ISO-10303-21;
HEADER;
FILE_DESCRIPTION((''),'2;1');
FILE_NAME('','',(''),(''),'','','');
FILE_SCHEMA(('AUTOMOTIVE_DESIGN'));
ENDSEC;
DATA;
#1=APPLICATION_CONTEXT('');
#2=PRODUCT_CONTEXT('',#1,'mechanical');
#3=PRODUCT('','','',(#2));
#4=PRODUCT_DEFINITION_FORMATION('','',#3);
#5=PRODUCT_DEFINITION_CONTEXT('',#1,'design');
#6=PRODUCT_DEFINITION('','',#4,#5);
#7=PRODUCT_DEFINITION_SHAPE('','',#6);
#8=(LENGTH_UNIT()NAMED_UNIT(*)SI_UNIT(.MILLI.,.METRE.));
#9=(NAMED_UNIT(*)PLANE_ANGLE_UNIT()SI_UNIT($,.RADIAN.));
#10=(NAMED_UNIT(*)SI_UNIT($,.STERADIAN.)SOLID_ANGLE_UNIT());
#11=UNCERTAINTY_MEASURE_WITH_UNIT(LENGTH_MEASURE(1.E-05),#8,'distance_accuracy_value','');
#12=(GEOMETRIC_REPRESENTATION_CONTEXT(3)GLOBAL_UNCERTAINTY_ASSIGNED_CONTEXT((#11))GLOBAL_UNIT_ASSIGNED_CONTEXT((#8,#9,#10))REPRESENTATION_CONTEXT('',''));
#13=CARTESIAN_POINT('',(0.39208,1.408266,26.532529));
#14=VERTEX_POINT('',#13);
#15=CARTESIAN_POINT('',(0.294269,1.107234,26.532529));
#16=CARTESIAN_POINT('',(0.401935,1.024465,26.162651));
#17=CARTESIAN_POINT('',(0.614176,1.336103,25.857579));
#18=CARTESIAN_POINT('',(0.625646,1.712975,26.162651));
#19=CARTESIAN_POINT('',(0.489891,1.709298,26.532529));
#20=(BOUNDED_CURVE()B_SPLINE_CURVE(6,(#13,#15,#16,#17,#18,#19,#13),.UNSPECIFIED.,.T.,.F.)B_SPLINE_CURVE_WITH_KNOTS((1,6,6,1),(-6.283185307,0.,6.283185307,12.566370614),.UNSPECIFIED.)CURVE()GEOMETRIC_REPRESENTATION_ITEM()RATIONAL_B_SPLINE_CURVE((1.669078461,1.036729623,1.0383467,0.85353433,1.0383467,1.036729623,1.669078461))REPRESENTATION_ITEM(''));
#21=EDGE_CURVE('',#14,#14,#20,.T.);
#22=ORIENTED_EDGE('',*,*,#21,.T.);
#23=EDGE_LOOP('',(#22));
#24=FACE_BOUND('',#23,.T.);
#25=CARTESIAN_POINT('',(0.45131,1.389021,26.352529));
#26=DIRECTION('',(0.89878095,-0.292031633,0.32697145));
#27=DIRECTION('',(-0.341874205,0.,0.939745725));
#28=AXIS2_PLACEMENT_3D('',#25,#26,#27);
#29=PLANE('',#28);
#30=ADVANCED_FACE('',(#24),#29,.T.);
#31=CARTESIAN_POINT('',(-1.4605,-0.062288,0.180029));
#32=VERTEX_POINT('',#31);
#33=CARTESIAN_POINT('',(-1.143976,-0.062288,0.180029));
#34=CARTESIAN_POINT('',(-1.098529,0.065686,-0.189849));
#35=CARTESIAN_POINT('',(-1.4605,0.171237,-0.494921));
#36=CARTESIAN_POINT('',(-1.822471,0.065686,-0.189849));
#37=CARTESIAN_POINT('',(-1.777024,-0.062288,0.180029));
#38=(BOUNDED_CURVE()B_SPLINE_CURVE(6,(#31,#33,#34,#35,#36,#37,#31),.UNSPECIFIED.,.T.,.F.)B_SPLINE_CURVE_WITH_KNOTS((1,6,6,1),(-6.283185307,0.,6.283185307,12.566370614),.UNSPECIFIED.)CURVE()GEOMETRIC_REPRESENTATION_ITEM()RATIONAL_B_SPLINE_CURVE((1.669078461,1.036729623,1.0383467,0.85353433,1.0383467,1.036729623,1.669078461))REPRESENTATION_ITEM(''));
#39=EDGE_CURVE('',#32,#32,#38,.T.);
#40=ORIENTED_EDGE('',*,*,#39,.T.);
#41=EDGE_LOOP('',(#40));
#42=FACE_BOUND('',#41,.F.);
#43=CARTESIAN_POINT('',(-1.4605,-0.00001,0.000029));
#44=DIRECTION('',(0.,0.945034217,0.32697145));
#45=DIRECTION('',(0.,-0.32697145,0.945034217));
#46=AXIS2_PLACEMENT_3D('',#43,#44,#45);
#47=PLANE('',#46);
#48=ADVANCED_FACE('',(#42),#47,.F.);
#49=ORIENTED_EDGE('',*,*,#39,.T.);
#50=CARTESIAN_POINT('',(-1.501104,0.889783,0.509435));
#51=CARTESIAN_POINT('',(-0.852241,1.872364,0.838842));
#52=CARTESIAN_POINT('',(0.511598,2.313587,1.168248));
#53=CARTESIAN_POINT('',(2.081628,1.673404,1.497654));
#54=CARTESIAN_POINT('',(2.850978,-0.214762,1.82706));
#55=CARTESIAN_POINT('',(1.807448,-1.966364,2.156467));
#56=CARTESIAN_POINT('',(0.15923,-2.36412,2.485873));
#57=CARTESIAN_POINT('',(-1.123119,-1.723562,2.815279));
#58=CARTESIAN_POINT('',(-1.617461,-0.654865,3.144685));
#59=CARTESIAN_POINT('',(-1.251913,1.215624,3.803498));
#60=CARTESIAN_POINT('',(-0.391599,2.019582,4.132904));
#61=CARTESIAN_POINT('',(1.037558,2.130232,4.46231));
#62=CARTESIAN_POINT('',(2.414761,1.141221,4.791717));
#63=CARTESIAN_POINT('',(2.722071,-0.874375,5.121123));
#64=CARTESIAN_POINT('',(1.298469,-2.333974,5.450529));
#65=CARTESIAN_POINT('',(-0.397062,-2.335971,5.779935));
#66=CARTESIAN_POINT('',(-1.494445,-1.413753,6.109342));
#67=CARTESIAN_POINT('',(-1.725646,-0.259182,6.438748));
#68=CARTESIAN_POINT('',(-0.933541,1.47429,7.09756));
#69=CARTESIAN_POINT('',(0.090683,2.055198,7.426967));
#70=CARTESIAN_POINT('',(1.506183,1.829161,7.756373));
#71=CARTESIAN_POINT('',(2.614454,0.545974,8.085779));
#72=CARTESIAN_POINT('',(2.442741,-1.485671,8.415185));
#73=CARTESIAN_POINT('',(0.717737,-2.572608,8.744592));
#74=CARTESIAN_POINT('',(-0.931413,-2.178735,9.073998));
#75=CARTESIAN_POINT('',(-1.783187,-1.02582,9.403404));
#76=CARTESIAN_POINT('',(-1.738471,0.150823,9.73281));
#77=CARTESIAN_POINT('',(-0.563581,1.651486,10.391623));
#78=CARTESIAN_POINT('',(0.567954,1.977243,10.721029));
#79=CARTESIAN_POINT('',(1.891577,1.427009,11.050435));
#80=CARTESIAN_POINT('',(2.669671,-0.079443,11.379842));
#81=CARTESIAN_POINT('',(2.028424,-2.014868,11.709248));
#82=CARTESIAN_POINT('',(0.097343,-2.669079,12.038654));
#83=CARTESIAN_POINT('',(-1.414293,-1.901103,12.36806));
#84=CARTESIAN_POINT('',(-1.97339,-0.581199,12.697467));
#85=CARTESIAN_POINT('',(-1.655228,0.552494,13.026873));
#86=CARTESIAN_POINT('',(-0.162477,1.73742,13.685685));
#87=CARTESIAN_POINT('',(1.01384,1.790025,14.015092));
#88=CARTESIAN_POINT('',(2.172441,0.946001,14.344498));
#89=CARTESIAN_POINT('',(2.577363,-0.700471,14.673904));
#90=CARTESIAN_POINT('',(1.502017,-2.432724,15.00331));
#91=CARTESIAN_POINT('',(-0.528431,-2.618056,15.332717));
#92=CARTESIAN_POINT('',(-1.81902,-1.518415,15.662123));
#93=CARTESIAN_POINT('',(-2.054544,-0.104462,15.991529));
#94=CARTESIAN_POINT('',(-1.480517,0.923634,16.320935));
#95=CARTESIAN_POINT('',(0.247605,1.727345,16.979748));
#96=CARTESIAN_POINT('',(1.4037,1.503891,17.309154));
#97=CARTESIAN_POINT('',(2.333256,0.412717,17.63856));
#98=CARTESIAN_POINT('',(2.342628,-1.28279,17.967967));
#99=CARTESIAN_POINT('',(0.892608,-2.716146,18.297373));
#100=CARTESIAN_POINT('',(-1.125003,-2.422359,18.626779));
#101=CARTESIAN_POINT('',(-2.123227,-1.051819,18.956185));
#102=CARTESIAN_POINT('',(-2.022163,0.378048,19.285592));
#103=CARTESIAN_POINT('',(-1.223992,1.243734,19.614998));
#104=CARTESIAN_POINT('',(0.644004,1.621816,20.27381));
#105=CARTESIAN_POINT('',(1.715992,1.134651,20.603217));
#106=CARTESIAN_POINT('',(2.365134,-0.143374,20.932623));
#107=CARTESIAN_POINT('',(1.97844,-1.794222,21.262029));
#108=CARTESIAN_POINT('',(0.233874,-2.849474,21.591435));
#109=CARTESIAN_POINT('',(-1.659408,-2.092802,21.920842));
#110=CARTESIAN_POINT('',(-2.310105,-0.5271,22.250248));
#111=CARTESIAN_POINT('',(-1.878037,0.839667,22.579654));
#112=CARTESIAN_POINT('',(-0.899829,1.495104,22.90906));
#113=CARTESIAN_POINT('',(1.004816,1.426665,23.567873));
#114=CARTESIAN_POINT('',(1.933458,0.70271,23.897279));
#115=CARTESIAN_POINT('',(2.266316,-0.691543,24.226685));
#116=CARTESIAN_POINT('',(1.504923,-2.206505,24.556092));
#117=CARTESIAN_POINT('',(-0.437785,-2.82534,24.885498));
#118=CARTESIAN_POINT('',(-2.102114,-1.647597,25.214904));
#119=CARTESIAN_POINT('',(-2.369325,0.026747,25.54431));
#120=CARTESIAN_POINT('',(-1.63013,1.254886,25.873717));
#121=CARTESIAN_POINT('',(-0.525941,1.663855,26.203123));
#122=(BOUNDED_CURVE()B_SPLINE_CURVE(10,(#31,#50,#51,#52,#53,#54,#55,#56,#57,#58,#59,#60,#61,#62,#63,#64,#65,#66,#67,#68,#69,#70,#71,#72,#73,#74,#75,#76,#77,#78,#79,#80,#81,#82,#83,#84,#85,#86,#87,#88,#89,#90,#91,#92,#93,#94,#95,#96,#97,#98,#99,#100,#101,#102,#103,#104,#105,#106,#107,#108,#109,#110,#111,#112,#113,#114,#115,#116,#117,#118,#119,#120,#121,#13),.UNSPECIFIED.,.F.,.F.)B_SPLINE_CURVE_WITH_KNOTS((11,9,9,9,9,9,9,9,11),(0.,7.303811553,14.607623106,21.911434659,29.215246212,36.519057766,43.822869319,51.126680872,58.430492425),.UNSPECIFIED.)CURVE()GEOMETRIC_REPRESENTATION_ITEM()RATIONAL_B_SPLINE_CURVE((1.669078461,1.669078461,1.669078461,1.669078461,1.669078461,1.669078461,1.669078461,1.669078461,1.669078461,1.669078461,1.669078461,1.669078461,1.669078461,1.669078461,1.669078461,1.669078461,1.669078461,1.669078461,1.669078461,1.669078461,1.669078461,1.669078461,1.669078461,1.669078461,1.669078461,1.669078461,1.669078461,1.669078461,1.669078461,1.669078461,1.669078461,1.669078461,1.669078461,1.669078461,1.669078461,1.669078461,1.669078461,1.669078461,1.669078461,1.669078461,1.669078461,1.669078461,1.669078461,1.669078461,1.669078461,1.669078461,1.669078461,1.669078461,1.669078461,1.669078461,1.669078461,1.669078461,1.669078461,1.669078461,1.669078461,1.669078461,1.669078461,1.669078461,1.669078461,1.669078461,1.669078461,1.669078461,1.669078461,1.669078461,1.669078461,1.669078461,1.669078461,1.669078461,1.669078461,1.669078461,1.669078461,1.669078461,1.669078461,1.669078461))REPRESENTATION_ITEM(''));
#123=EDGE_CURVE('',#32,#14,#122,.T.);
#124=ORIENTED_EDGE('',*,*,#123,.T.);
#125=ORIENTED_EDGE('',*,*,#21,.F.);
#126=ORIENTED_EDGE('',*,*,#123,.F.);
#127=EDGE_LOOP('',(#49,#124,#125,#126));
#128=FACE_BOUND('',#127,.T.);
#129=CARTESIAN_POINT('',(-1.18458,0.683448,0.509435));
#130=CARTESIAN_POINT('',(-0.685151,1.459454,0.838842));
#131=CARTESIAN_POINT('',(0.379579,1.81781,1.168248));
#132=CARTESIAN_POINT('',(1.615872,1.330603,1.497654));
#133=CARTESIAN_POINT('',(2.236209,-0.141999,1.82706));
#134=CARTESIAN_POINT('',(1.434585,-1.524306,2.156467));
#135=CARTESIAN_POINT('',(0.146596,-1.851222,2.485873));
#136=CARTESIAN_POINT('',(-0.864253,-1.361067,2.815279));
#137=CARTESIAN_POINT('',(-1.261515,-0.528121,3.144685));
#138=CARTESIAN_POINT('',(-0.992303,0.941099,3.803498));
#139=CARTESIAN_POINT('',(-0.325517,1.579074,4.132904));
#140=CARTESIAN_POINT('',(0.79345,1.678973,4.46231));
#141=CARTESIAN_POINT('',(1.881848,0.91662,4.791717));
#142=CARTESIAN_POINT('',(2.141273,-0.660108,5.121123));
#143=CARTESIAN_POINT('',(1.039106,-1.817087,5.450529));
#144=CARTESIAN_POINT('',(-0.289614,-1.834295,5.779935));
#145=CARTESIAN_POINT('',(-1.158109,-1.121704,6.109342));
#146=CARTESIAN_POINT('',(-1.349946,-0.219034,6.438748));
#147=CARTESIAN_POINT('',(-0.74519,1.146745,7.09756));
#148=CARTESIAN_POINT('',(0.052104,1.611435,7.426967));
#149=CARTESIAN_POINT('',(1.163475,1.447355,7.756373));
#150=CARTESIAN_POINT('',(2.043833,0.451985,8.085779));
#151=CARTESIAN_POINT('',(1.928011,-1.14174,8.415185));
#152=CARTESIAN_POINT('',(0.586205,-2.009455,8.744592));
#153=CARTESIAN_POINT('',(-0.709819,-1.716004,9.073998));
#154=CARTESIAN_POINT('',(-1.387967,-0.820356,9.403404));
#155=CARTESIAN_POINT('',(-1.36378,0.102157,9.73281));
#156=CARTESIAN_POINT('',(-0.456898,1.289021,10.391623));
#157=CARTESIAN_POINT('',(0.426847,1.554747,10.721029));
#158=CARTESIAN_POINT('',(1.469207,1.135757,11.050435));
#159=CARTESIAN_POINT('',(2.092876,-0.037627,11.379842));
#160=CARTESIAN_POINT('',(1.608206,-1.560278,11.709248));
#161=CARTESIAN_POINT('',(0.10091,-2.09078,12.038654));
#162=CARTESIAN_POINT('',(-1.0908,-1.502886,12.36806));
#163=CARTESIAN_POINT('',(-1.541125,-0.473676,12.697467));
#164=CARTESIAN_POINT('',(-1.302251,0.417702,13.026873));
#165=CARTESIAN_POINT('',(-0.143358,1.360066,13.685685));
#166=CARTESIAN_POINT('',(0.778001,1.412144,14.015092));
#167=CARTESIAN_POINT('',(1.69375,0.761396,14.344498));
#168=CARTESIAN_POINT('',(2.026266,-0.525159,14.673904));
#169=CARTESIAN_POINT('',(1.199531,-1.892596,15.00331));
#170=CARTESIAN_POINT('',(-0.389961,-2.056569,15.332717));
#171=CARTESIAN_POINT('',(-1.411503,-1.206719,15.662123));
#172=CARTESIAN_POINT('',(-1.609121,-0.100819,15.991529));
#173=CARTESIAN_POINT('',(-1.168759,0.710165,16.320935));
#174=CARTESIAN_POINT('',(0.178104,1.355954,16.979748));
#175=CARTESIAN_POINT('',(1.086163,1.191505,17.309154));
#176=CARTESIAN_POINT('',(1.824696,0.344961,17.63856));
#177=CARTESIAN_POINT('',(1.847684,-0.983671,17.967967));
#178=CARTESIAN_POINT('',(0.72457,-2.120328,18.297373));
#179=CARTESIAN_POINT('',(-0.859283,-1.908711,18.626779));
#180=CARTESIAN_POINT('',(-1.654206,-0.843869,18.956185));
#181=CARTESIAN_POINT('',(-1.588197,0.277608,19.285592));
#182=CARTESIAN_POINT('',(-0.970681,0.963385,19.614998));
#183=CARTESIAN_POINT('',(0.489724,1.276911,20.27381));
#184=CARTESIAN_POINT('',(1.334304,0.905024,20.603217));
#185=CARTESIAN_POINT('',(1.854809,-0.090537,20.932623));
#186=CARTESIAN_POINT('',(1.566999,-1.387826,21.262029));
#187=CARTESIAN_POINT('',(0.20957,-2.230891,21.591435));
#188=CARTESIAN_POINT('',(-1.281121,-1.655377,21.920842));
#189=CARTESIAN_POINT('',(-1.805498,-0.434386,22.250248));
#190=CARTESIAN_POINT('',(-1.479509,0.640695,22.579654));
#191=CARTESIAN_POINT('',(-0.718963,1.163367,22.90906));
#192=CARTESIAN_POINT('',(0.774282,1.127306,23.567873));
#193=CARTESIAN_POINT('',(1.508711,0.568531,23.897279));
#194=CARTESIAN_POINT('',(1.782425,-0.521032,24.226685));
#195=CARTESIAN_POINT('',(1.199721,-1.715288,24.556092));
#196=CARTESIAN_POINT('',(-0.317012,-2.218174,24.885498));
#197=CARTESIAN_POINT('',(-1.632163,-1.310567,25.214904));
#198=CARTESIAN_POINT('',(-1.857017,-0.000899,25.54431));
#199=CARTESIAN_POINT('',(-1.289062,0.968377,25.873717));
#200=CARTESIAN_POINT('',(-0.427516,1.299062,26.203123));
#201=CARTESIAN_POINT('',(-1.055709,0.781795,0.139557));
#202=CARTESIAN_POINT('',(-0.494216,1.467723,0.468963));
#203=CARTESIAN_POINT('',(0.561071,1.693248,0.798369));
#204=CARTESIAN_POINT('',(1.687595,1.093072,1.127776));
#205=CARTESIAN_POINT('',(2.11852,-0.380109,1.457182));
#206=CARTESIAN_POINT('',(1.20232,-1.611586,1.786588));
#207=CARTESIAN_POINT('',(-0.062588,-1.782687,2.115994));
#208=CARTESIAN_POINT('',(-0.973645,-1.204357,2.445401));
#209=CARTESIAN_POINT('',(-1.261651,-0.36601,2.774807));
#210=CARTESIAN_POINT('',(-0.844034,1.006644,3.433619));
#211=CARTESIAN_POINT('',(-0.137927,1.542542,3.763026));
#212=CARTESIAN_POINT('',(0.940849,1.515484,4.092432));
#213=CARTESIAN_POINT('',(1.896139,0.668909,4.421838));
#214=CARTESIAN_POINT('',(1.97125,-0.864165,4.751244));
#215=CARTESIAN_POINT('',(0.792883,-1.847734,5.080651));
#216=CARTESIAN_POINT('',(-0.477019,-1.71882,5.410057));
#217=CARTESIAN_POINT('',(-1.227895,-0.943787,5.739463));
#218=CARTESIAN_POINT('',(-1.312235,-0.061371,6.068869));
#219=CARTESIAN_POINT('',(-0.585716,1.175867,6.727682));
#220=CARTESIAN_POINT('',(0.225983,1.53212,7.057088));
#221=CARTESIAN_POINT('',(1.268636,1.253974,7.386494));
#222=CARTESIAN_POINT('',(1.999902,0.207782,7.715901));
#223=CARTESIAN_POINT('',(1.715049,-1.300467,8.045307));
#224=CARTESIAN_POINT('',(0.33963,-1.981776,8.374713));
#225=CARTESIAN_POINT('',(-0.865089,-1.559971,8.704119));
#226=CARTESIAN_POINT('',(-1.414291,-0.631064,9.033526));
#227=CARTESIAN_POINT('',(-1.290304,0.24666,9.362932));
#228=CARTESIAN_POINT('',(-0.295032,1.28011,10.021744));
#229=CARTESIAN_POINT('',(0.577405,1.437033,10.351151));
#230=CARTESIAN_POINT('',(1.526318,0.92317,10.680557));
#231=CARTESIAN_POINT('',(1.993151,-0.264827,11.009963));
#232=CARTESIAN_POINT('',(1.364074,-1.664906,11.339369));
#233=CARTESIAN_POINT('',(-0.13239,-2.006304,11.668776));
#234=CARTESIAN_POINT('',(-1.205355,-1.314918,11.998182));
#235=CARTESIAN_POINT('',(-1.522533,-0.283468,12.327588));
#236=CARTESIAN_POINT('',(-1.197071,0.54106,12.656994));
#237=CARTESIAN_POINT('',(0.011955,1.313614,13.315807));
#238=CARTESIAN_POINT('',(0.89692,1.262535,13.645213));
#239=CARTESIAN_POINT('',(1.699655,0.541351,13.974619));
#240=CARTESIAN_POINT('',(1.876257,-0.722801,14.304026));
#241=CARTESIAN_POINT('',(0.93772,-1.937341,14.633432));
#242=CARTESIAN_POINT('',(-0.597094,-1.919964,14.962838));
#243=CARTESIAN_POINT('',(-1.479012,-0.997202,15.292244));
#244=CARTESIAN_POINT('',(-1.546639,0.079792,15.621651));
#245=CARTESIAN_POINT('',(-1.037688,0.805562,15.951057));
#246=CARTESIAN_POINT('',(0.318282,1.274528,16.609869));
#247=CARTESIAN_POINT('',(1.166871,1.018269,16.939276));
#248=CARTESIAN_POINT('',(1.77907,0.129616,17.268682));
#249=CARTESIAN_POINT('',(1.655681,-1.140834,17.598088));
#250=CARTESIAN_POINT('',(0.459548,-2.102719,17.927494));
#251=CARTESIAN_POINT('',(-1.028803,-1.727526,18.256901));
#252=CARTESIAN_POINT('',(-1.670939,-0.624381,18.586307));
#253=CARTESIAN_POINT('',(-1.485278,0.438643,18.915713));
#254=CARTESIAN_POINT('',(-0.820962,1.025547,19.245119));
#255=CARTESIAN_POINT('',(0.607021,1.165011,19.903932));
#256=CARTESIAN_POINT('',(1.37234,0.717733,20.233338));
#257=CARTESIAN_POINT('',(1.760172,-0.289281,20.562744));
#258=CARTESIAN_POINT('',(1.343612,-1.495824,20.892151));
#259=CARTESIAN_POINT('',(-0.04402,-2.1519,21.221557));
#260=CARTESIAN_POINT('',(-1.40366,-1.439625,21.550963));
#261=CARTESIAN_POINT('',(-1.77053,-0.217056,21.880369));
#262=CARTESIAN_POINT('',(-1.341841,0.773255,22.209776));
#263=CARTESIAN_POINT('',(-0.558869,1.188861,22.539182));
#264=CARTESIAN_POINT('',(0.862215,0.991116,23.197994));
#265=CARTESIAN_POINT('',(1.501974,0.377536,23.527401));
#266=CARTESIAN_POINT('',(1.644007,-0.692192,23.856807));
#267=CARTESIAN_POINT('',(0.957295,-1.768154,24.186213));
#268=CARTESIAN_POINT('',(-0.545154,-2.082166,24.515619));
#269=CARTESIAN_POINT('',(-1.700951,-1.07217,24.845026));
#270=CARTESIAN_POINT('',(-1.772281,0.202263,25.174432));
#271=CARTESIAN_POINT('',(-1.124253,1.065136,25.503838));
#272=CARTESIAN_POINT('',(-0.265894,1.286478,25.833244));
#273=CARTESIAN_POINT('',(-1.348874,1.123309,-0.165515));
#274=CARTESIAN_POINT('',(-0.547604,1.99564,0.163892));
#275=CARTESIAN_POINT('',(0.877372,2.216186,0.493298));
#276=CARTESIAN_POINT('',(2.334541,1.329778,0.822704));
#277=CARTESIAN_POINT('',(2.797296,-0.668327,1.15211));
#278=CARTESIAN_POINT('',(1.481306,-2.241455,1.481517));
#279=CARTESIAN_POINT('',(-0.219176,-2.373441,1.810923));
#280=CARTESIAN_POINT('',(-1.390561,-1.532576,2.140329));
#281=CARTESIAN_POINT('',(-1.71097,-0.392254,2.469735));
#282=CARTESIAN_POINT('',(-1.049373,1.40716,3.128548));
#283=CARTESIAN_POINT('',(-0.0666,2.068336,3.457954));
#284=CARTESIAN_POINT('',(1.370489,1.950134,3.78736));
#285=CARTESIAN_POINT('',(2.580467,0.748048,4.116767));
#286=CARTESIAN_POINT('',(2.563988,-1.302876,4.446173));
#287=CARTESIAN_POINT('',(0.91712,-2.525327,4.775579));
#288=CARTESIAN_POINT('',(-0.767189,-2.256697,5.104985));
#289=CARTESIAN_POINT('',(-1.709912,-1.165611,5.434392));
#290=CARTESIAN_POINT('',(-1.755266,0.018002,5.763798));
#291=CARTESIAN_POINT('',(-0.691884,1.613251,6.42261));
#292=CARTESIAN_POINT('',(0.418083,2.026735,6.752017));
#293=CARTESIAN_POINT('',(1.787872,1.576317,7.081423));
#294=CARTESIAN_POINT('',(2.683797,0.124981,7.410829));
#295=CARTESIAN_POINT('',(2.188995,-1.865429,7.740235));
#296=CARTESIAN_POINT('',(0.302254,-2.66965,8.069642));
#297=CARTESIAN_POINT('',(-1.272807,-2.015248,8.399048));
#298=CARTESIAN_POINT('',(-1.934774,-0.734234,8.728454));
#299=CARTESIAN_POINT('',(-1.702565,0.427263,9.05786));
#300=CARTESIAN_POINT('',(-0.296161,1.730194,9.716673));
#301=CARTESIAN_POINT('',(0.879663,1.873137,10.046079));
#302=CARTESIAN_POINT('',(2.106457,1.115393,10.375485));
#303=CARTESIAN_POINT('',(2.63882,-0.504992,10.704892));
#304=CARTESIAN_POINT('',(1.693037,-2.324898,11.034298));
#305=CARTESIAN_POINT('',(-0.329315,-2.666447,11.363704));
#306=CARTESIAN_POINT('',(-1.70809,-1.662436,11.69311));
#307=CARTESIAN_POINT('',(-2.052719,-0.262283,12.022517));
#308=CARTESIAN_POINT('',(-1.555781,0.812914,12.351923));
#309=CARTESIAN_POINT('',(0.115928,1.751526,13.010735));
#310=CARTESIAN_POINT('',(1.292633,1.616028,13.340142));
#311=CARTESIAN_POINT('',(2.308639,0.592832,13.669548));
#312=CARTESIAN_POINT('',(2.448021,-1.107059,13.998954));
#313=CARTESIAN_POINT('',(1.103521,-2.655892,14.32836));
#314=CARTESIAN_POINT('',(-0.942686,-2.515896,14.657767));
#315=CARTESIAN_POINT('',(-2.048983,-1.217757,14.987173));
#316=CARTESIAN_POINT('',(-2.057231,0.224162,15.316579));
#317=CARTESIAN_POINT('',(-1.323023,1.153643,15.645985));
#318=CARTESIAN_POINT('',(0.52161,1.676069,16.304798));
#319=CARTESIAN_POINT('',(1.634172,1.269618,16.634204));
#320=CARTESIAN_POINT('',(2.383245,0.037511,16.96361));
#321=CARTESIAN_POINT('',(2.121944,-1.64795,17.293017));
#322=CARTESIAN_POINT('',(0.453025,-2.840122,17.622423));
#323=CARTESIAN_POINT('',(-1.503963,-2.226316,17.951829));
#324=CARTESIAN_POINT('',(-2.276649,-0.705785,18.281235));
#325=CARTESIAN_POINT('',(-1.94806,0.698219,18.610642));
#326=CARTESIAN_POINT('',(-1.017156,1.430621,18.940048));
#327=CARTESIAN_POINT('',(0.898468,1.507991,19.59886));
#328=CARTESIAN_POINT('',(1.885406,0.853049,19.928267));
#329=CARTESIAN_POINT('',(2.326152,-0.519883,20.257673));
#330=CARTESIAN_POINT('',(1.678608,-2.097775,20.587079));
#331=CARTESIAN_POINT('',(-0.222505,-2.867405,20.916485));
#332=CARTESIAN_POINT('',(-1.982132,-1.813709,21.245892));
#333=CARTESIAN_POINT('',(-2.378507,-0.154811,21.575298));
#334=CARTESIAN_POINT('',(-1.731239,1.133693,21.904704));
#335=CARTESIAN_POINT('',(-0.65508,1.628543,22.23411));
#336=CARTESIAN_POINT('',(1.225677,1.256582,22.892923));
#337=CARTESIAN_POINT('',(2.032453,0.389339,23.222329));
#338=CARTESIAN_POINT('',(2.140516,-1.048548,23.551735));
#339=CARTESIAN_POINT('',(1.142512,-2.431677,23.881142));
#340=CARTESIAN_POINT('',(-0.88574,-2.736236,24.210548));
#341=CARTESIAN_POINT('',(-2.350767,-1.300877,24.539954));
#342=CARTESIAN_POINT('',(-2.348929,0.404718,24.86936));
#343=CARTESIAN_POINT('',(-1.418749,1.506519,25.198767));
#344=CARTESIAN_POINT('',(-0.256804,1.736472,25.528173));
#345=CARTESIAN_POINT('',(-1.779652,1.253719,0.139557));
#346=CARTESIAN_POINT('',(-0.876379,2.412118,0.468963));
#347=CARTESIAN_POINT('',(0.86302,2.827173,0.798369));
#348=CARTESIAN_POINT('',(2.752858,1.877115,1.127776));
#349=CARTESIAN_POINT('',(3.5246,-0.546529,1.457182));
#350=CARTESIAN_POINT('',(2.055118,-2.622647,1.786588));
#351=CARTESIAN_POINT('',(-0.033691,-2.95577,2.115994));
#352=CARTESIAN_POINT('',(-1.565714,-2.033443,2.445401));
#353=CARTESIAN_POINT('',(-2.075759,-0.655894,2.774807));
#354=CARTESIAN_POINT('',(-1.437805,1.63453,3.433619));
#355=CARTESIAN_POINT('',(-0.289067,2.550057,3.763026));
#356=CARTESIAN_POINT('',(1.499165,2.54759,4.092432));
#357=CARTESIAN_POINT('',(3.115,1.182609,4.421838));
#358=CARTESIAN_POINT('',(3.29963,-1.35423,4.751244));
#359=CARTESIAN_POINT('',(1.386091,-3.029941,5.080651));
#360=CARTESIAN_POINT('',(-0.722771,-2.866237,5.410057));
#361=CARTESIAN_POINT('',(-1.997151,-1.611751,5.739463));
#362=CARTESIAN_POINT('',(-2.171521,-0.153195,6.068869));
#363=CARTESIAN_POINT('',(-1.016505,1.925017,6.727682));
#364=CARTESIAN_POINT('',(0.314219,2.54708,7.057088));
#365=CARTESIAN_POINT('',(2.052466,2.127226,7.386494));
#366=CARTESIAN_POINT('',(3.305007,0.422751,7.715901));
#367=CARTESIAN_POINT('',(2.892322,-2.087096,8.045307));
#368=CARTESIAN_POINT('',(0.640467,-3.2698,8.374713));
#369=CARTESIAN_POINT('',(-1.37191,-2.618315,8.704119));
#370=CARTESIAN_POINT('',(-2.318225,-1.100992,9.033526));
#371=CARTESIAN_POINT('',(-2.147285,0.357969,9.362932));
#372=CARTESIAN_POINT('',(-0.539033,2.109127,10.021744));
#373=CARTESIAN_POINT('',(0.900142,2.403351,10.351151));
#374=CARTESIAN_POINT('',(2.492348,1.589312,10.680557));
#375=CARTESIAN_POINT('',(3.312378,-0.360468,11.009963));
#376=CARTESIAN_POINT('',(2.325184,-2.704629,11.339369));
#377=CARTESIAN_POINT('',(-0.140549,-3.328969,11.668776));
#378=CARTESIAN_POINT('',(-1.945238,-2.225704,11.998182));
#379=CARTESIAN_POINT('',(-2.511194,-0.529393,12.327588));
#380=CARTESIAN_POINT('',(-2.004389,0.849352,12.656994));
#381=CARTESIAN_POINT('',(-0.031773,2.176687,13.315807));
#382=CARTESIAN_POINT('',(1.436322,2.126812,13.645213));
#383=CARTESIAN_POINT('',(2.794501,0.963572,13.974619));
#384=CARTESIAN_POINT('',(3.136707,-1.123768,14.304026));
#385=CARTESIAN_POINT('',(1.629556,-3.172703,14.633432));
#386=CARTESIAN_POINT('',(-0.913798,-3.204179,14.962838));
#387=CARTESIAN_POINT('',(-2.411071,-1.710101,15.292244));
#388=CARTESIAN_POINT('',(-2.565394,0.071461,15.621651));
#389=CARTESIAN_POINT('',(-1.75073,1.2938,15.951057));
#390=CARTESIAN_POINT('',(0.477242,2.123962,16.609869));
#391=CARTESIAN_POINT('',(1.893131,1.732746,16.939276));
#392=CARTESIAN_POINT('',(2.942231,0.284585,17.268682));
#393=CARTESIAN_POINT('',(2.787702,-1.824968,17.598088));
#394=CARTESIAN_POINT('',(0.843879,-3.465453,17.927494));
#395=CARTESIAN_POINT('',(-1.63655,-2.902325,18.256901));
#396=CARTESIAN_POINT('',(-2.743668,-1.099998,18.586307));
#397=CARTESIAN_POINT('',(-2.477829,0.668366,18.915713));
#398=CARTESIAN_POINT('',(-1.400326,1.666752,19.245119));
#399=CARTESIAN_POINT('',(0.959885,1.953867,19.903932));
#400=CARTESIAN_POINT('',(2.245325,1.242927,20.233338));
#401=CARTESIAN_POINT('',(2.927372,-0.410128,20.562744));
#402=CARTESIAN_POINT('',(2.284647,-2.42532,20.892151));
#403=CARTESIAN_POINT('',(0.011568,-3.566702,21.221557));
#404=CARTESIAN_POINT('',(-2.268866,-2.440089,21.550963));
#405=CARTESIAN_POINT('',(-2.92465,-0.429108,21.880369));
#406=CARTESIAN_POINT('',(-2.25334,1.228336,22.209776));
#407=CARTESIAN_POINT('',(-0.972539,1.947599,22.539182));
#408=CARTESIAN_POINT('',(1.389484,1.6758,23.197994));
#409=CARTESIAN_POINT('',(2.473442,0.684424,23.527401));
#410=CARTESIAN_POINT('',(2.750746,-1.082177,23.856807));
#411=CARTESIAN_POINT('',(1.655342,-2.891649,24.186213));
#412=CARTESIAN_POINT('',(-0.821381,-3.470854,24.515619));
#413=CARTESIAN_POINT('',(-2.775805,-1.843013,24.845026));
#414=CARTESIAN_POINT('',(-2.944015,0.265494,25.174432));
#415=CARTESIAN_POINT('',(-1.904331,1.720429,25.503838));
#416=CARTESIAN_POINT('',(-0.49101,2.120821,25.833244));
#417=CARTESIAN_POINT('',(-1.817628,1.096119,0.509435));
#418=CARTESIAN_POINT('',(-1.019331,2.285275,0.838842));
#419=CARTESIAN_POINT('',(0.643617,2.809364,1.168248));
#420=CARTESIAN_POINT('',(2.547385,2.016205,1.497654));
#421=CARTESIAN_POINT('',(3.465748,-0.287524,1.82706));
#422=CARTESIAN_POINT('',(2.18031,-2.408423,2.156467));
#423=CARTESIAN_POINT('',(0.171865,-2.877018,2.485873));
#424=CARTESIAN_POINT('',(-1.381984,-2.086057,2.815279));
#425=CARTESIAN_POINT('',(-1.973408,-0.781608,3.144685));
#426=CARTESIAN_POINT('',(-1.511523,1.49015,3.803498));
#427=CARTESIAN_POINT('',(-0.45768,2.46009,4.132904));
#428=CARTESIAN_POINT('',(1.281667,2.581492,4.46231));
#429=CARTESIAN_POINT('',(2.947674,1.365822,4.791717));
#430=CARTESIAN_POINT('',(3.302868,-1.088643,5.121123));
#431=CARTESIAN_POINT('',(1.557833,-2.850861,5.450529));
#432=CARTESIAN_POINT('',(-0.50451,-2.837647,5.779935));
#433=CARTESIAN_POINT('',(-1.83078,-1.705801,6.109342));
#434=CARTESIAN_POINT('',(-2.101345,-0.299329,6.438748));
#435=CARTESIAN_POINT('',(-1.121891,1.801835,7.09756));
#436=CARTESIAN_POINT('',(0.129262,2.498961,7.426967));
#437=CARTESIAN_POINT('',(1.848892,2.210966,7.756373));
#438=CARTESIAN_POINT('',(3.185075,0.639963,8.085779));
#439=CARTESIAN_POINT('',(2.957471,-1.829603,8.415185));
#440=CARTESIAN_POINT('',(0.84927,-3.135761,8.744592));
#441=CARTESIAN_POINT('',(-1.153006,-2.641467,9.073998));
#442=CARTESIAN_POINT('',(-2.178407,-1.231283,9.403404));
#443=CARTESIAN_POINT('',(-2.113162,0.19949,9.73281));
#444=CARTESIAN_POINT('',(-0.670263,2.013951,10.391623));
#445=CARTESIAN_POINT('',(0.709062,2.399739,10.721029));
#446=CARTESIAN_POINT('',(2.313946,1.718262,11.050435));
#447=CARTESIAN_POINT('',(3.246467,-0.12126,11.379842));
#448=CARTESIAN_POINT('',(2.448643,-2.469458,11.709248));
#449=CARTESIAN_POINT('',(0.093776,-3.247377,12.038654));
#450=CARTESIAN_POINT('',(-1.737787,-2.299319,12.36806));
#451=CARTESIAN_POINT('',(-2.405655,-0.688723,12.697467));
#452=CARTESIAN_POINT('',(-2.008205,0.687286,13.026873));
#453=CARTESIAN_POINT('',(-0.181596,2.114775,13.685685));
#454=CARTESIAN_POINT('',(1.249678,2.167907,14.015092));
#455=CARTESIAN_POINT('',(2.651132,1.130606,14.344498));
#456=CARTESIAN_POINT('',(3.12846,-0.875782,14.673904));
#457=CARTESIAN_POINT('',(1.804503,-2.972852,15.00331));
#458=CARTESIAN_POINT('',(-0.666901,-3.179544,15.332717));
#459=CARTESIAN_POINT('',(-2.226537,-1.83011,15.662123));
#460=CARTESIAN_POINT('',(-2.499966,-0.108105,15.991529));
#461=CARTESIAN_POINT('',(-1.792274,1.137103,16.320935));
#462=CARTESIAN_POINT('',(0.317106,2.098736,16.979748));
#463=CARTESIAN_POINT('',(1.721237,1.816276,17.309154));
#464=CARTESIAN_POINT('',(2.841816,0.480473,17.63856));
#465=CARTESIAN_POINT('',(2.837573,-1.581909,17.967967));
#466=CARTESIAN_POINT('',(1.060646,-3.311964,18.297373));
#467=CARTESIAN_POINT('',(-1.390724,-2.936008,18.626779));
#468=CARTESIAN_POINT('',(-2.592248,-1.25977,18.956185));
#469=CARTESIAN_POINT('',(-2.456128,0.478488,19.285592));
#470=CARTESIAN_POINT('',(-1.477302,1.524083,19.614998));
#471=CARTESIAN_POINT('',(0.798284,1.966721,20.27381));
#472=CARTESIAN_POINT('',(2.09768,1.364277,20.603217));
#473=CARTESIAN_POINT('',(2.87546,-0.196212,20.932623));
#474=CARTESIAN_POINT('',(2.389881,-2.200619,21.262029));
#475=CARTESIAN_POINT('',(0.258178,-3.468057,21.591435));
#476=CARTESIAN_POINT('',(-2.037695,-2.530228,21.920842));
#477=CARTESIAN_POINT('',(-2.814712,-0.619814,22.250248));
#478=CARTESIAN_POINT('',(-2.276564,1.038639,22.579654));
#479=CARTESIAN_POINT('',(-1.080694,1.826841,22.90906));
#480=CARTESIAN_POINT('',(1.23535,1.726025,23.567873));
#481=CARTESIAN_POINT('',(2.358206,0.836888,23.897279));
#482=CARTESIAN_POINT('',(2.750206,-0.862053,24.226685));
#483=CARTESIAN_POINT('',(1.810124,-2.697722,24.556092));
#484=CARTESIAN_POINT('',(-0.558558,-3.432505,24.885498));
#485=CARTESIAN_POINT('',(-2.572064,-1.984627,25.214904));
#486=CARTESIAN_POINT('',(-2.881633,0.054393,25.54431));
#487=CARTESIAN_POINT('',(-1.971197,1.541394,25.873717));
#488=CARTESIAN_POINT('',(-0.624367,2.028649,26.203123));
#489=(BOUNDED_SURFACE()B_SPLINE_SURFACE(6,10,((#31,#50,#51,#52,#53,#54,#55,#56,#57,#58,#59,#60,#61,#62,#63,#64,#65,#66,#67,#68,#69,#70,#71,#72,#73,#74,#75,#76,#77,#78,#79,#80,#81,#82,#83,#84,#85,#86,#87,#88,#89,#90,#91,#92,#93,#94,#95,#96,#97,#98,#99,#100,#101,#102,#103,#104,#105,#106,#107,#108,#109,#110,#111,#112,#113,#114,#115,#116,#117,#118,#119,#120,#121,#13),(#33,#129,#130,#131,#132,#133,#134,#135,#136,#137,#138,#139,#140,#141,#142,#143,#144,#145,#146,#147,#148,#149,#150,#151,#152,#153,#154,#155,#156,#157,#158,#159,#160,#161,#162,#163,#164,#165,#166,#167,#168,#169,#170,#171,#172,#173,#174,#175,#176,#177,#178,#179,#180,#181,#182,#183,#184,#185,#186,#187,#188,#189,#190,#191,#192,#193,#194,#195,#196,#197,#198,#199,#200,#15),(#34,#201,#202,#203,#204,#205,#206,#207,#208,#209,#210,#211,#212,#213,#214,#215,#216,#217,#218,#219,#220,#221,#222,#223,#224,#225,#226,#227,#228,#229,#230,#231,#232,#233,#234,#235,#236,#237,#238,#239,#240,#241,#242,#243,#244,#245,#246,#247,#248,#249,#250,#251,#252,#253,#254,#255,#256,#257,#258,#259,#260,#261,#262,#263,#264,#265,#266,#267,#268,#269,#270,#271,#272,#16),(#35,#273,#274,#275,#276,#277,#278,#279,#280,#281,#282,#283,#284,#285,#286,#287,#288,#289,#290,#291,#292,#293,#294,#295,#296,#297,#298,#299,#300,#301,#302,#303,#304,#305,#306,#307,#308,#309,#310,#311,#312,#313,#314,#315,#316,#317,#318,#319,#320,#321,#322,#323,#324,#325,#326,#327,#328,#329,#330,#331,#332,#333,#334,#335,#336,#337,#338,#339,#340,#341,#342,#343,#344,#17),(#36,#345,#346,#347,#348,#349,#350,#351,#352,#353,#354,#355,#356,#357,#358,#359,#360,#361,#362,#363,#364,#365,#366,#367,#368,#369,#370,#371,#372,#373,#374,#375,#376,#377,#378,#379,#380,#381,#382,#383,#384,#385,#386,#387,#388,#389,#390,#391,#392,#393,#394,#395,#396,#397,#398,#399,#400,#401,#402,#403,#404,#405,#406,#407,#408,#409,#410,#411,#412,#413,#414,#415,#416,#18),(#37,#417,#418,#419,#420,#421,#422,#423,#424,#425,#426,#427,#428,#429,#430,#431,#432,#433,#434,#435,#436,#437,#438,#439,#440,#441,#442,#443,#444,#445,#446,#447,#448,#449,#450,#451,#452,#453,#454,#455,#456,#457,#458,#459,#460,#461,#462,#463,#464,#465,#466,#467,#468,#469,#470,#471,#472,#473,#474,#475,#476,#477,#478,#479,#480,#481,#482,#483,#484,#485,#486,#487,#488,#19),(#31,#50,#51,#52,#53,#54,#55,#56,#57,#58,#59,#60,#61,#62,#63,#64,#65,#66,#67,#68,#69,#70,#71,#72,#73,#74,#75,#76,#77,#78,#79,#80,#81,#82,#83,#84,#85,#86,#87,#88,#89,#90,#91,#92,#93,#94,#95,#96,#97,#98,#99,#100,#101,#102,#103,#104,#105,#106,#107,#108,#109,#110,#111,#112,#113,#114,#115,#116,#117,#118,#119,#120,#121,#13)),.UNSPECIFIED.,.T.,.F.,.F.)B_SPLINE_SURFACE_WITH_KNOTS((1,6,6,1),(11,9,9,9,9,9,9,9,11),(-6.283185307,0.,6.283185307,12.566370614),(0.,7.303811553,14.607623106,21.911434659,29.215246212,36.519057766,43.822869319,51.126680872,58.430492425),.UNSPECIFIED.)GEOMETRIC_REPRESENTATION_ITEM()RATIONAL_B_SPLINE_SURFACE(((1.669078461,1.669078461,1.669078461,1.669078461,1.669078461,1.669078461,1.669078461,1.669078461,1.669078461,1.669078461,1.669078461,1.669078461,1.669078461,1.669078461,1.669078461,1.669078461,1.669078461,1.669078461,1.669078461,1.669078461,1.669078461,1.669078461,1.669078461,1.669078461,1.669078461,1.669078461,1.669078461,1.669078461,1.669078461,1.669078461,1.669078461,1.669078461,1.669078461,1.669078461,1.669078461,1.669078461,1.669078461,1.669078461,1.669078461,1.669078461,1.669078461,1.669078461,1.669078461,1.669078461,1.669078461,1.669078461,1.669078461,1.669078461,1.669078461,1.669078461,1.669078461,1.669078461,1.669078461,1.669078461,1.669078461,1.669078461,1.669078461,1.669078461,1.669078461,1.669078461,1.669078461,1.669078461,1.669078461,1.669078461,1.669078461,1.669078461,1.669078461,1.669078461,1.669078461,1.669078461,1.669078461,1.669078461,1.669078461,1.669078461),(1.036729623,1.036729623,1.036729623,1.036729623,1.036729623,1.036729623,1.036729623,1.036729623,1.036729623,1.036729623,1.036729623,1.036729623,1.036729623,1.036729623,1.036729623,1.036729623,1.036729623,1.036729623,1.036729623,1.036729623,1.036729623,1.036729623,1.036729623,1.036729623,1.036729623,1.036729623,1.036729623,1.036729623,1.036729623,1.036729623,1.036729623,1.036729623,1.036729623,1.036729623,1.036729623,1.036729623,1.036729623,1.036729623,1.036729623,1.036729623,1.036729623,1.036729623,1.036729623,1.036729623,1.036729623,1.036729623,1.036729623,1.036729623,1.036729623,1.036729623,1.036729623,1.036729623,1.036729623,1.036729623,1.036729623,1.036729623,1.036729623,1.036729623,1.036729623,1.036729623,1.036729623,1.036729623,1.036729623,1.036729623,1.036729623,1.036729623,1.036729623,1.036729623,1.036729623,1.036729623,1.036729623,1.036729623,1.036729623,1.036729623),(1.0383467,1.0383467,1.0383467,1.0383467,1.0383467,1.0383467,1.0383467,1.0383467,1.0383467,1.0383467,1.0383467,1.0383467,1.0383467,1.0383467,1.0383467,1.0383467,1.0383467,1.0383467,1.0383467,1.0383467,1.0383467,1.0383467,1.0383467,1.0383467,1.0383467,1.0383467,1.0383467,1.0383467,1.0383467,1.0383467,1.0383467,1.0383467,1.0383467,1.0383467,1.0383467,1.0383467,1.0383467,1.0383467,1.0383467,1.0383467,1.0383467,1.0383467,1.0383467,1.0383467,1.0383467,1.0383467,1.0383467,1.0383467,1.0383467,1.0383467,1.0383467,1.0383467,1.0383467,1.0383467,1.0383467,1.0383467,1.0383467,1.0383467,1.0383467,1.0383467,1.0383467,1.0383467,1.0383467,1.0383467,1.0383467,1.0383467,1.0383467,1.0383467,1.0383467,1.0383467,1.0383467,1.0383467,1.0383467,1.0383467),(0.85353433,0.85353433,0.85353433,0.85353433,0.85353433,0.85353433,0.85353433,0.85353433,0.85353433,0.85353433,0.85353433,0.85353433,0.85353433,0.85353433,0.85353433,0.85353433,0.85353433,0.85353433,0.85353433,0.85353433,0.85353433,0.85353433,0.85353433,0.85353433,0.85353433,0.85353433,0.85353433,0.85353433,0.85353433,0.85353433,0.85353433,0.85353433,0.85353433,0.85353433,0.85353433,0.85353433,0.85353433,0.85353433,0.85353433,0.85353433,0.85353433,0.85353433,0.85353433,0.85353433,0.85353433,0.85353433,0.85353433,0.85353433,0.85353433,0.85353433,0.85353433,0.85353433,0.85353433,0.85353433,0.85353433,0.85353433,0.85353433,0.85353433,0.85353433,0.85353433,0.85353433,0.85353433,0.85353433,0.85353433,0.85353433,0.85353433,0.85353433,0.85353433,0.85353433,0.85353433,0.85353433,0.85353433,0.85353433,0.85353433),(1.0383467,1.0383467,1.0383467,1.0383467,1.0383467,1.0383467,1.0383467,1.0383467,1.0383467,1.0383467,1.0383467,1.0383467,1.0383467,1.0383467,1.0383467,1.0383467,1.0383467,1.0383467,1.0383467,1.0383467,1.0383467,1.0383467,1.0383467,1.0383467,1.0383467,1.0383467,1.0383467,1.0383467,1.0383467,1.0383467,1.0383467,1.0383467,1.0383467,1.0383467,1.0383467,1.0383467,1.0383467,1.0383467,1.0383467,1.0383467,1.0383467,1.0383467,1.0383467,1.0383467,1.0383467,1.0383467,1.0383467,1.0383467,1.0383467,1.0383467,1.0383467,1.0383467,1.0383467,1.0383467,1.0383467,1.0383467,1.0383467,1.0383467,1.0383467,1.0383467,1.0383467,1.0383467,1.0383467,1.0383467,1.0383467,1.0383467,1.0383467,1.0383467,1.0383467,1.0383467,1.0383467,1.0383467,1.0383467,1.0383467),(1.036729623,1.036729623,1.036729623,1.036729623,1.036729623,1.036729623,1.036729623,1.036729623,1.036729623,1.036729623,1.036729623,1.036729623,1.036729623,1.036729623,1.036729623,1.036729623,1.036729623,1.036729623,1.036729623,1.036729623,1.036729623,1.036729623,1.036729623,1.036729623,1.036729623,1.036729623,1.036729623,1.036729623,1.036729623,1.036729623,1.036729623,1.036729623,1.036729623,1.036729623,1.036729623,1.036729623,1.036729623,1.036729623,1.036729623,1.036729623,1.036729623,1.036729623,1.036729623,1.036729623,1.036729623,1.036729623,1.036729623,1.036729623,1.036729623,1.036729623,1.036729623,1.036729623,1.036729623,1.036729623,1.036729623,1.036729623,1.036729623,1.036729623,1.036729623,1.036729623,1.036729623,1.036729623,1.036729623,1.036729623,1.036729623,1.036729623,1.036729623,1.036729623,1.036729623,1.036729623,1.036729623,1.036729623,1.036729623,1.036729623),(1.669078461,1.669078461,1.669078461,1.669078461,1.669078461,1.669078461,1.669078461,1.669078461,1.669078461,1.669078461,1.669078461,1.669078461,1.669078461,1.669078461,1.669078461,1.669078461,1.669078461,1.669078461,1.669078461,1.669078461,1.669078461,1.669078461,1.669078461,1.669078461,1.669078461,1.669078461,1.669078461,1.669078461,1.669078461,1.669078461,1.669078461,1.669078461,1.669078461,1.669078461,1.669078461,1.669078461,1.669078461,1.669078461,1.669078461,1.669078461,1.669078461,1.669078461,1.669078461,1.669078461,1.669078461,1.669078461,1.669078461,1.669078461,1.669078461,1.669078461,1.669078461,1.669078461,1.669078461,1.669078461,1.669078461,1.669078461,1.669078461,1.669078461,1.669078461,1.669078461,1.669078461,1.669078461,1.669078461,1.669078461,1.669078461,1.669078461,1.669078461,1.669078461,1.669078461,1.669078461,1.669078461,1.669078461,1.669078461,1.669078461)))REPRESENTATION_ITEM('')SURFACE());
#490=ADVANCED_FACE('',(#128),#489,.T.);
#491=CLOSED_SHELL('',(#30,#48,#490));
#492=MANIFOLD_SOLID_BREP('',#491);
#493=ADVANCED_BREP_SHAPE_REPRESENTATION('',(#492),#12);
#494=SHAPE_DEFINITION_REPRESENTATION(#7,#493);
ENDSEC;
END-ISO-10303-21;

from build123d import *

# Parameters (mm, degrees)
SWEEP1_PITCH       = 3.175
SWEEP1_HEIGHT      = 26.3525
SWEEP1_RADIUS      = 1.4605
SWEEP1_START_ANGLE = -180
SWEEP1_PROFILE_R   = 0.1905


with BuildPart() as part:
    # Sweep1: sweep along a helix
    with BuildLine() as sweep1_path:
        add(Helix(SWEEP1_PITCH, SWEEP1_HEIGHT, SWEEP1_RADIUS, center=(0, 0, 0), direction=(0, 0, 1), lefthand=True, mode=Mode.PRIVATE).rotate(Axis((0, 0, 0), (0, 0, 1)), SWEEP1_START_ANGLE))
    # Sweep1 profile (on start of the path) → Sweep1 (sweep)
    with BuildSketch(Plane(origin=(-1.4605, 0, 0), x_dir=(0, -0.3269714499835476, 0.9450342167856445), z_dir=(-2.4180172117257505e-13, 0.9450342167856445, 0.3269714499835476))):
        Circle(SWEEP1_PROFILE_R)
    sweep(path=sweep1_path.line, is_frenet=True)


solid = part.part
